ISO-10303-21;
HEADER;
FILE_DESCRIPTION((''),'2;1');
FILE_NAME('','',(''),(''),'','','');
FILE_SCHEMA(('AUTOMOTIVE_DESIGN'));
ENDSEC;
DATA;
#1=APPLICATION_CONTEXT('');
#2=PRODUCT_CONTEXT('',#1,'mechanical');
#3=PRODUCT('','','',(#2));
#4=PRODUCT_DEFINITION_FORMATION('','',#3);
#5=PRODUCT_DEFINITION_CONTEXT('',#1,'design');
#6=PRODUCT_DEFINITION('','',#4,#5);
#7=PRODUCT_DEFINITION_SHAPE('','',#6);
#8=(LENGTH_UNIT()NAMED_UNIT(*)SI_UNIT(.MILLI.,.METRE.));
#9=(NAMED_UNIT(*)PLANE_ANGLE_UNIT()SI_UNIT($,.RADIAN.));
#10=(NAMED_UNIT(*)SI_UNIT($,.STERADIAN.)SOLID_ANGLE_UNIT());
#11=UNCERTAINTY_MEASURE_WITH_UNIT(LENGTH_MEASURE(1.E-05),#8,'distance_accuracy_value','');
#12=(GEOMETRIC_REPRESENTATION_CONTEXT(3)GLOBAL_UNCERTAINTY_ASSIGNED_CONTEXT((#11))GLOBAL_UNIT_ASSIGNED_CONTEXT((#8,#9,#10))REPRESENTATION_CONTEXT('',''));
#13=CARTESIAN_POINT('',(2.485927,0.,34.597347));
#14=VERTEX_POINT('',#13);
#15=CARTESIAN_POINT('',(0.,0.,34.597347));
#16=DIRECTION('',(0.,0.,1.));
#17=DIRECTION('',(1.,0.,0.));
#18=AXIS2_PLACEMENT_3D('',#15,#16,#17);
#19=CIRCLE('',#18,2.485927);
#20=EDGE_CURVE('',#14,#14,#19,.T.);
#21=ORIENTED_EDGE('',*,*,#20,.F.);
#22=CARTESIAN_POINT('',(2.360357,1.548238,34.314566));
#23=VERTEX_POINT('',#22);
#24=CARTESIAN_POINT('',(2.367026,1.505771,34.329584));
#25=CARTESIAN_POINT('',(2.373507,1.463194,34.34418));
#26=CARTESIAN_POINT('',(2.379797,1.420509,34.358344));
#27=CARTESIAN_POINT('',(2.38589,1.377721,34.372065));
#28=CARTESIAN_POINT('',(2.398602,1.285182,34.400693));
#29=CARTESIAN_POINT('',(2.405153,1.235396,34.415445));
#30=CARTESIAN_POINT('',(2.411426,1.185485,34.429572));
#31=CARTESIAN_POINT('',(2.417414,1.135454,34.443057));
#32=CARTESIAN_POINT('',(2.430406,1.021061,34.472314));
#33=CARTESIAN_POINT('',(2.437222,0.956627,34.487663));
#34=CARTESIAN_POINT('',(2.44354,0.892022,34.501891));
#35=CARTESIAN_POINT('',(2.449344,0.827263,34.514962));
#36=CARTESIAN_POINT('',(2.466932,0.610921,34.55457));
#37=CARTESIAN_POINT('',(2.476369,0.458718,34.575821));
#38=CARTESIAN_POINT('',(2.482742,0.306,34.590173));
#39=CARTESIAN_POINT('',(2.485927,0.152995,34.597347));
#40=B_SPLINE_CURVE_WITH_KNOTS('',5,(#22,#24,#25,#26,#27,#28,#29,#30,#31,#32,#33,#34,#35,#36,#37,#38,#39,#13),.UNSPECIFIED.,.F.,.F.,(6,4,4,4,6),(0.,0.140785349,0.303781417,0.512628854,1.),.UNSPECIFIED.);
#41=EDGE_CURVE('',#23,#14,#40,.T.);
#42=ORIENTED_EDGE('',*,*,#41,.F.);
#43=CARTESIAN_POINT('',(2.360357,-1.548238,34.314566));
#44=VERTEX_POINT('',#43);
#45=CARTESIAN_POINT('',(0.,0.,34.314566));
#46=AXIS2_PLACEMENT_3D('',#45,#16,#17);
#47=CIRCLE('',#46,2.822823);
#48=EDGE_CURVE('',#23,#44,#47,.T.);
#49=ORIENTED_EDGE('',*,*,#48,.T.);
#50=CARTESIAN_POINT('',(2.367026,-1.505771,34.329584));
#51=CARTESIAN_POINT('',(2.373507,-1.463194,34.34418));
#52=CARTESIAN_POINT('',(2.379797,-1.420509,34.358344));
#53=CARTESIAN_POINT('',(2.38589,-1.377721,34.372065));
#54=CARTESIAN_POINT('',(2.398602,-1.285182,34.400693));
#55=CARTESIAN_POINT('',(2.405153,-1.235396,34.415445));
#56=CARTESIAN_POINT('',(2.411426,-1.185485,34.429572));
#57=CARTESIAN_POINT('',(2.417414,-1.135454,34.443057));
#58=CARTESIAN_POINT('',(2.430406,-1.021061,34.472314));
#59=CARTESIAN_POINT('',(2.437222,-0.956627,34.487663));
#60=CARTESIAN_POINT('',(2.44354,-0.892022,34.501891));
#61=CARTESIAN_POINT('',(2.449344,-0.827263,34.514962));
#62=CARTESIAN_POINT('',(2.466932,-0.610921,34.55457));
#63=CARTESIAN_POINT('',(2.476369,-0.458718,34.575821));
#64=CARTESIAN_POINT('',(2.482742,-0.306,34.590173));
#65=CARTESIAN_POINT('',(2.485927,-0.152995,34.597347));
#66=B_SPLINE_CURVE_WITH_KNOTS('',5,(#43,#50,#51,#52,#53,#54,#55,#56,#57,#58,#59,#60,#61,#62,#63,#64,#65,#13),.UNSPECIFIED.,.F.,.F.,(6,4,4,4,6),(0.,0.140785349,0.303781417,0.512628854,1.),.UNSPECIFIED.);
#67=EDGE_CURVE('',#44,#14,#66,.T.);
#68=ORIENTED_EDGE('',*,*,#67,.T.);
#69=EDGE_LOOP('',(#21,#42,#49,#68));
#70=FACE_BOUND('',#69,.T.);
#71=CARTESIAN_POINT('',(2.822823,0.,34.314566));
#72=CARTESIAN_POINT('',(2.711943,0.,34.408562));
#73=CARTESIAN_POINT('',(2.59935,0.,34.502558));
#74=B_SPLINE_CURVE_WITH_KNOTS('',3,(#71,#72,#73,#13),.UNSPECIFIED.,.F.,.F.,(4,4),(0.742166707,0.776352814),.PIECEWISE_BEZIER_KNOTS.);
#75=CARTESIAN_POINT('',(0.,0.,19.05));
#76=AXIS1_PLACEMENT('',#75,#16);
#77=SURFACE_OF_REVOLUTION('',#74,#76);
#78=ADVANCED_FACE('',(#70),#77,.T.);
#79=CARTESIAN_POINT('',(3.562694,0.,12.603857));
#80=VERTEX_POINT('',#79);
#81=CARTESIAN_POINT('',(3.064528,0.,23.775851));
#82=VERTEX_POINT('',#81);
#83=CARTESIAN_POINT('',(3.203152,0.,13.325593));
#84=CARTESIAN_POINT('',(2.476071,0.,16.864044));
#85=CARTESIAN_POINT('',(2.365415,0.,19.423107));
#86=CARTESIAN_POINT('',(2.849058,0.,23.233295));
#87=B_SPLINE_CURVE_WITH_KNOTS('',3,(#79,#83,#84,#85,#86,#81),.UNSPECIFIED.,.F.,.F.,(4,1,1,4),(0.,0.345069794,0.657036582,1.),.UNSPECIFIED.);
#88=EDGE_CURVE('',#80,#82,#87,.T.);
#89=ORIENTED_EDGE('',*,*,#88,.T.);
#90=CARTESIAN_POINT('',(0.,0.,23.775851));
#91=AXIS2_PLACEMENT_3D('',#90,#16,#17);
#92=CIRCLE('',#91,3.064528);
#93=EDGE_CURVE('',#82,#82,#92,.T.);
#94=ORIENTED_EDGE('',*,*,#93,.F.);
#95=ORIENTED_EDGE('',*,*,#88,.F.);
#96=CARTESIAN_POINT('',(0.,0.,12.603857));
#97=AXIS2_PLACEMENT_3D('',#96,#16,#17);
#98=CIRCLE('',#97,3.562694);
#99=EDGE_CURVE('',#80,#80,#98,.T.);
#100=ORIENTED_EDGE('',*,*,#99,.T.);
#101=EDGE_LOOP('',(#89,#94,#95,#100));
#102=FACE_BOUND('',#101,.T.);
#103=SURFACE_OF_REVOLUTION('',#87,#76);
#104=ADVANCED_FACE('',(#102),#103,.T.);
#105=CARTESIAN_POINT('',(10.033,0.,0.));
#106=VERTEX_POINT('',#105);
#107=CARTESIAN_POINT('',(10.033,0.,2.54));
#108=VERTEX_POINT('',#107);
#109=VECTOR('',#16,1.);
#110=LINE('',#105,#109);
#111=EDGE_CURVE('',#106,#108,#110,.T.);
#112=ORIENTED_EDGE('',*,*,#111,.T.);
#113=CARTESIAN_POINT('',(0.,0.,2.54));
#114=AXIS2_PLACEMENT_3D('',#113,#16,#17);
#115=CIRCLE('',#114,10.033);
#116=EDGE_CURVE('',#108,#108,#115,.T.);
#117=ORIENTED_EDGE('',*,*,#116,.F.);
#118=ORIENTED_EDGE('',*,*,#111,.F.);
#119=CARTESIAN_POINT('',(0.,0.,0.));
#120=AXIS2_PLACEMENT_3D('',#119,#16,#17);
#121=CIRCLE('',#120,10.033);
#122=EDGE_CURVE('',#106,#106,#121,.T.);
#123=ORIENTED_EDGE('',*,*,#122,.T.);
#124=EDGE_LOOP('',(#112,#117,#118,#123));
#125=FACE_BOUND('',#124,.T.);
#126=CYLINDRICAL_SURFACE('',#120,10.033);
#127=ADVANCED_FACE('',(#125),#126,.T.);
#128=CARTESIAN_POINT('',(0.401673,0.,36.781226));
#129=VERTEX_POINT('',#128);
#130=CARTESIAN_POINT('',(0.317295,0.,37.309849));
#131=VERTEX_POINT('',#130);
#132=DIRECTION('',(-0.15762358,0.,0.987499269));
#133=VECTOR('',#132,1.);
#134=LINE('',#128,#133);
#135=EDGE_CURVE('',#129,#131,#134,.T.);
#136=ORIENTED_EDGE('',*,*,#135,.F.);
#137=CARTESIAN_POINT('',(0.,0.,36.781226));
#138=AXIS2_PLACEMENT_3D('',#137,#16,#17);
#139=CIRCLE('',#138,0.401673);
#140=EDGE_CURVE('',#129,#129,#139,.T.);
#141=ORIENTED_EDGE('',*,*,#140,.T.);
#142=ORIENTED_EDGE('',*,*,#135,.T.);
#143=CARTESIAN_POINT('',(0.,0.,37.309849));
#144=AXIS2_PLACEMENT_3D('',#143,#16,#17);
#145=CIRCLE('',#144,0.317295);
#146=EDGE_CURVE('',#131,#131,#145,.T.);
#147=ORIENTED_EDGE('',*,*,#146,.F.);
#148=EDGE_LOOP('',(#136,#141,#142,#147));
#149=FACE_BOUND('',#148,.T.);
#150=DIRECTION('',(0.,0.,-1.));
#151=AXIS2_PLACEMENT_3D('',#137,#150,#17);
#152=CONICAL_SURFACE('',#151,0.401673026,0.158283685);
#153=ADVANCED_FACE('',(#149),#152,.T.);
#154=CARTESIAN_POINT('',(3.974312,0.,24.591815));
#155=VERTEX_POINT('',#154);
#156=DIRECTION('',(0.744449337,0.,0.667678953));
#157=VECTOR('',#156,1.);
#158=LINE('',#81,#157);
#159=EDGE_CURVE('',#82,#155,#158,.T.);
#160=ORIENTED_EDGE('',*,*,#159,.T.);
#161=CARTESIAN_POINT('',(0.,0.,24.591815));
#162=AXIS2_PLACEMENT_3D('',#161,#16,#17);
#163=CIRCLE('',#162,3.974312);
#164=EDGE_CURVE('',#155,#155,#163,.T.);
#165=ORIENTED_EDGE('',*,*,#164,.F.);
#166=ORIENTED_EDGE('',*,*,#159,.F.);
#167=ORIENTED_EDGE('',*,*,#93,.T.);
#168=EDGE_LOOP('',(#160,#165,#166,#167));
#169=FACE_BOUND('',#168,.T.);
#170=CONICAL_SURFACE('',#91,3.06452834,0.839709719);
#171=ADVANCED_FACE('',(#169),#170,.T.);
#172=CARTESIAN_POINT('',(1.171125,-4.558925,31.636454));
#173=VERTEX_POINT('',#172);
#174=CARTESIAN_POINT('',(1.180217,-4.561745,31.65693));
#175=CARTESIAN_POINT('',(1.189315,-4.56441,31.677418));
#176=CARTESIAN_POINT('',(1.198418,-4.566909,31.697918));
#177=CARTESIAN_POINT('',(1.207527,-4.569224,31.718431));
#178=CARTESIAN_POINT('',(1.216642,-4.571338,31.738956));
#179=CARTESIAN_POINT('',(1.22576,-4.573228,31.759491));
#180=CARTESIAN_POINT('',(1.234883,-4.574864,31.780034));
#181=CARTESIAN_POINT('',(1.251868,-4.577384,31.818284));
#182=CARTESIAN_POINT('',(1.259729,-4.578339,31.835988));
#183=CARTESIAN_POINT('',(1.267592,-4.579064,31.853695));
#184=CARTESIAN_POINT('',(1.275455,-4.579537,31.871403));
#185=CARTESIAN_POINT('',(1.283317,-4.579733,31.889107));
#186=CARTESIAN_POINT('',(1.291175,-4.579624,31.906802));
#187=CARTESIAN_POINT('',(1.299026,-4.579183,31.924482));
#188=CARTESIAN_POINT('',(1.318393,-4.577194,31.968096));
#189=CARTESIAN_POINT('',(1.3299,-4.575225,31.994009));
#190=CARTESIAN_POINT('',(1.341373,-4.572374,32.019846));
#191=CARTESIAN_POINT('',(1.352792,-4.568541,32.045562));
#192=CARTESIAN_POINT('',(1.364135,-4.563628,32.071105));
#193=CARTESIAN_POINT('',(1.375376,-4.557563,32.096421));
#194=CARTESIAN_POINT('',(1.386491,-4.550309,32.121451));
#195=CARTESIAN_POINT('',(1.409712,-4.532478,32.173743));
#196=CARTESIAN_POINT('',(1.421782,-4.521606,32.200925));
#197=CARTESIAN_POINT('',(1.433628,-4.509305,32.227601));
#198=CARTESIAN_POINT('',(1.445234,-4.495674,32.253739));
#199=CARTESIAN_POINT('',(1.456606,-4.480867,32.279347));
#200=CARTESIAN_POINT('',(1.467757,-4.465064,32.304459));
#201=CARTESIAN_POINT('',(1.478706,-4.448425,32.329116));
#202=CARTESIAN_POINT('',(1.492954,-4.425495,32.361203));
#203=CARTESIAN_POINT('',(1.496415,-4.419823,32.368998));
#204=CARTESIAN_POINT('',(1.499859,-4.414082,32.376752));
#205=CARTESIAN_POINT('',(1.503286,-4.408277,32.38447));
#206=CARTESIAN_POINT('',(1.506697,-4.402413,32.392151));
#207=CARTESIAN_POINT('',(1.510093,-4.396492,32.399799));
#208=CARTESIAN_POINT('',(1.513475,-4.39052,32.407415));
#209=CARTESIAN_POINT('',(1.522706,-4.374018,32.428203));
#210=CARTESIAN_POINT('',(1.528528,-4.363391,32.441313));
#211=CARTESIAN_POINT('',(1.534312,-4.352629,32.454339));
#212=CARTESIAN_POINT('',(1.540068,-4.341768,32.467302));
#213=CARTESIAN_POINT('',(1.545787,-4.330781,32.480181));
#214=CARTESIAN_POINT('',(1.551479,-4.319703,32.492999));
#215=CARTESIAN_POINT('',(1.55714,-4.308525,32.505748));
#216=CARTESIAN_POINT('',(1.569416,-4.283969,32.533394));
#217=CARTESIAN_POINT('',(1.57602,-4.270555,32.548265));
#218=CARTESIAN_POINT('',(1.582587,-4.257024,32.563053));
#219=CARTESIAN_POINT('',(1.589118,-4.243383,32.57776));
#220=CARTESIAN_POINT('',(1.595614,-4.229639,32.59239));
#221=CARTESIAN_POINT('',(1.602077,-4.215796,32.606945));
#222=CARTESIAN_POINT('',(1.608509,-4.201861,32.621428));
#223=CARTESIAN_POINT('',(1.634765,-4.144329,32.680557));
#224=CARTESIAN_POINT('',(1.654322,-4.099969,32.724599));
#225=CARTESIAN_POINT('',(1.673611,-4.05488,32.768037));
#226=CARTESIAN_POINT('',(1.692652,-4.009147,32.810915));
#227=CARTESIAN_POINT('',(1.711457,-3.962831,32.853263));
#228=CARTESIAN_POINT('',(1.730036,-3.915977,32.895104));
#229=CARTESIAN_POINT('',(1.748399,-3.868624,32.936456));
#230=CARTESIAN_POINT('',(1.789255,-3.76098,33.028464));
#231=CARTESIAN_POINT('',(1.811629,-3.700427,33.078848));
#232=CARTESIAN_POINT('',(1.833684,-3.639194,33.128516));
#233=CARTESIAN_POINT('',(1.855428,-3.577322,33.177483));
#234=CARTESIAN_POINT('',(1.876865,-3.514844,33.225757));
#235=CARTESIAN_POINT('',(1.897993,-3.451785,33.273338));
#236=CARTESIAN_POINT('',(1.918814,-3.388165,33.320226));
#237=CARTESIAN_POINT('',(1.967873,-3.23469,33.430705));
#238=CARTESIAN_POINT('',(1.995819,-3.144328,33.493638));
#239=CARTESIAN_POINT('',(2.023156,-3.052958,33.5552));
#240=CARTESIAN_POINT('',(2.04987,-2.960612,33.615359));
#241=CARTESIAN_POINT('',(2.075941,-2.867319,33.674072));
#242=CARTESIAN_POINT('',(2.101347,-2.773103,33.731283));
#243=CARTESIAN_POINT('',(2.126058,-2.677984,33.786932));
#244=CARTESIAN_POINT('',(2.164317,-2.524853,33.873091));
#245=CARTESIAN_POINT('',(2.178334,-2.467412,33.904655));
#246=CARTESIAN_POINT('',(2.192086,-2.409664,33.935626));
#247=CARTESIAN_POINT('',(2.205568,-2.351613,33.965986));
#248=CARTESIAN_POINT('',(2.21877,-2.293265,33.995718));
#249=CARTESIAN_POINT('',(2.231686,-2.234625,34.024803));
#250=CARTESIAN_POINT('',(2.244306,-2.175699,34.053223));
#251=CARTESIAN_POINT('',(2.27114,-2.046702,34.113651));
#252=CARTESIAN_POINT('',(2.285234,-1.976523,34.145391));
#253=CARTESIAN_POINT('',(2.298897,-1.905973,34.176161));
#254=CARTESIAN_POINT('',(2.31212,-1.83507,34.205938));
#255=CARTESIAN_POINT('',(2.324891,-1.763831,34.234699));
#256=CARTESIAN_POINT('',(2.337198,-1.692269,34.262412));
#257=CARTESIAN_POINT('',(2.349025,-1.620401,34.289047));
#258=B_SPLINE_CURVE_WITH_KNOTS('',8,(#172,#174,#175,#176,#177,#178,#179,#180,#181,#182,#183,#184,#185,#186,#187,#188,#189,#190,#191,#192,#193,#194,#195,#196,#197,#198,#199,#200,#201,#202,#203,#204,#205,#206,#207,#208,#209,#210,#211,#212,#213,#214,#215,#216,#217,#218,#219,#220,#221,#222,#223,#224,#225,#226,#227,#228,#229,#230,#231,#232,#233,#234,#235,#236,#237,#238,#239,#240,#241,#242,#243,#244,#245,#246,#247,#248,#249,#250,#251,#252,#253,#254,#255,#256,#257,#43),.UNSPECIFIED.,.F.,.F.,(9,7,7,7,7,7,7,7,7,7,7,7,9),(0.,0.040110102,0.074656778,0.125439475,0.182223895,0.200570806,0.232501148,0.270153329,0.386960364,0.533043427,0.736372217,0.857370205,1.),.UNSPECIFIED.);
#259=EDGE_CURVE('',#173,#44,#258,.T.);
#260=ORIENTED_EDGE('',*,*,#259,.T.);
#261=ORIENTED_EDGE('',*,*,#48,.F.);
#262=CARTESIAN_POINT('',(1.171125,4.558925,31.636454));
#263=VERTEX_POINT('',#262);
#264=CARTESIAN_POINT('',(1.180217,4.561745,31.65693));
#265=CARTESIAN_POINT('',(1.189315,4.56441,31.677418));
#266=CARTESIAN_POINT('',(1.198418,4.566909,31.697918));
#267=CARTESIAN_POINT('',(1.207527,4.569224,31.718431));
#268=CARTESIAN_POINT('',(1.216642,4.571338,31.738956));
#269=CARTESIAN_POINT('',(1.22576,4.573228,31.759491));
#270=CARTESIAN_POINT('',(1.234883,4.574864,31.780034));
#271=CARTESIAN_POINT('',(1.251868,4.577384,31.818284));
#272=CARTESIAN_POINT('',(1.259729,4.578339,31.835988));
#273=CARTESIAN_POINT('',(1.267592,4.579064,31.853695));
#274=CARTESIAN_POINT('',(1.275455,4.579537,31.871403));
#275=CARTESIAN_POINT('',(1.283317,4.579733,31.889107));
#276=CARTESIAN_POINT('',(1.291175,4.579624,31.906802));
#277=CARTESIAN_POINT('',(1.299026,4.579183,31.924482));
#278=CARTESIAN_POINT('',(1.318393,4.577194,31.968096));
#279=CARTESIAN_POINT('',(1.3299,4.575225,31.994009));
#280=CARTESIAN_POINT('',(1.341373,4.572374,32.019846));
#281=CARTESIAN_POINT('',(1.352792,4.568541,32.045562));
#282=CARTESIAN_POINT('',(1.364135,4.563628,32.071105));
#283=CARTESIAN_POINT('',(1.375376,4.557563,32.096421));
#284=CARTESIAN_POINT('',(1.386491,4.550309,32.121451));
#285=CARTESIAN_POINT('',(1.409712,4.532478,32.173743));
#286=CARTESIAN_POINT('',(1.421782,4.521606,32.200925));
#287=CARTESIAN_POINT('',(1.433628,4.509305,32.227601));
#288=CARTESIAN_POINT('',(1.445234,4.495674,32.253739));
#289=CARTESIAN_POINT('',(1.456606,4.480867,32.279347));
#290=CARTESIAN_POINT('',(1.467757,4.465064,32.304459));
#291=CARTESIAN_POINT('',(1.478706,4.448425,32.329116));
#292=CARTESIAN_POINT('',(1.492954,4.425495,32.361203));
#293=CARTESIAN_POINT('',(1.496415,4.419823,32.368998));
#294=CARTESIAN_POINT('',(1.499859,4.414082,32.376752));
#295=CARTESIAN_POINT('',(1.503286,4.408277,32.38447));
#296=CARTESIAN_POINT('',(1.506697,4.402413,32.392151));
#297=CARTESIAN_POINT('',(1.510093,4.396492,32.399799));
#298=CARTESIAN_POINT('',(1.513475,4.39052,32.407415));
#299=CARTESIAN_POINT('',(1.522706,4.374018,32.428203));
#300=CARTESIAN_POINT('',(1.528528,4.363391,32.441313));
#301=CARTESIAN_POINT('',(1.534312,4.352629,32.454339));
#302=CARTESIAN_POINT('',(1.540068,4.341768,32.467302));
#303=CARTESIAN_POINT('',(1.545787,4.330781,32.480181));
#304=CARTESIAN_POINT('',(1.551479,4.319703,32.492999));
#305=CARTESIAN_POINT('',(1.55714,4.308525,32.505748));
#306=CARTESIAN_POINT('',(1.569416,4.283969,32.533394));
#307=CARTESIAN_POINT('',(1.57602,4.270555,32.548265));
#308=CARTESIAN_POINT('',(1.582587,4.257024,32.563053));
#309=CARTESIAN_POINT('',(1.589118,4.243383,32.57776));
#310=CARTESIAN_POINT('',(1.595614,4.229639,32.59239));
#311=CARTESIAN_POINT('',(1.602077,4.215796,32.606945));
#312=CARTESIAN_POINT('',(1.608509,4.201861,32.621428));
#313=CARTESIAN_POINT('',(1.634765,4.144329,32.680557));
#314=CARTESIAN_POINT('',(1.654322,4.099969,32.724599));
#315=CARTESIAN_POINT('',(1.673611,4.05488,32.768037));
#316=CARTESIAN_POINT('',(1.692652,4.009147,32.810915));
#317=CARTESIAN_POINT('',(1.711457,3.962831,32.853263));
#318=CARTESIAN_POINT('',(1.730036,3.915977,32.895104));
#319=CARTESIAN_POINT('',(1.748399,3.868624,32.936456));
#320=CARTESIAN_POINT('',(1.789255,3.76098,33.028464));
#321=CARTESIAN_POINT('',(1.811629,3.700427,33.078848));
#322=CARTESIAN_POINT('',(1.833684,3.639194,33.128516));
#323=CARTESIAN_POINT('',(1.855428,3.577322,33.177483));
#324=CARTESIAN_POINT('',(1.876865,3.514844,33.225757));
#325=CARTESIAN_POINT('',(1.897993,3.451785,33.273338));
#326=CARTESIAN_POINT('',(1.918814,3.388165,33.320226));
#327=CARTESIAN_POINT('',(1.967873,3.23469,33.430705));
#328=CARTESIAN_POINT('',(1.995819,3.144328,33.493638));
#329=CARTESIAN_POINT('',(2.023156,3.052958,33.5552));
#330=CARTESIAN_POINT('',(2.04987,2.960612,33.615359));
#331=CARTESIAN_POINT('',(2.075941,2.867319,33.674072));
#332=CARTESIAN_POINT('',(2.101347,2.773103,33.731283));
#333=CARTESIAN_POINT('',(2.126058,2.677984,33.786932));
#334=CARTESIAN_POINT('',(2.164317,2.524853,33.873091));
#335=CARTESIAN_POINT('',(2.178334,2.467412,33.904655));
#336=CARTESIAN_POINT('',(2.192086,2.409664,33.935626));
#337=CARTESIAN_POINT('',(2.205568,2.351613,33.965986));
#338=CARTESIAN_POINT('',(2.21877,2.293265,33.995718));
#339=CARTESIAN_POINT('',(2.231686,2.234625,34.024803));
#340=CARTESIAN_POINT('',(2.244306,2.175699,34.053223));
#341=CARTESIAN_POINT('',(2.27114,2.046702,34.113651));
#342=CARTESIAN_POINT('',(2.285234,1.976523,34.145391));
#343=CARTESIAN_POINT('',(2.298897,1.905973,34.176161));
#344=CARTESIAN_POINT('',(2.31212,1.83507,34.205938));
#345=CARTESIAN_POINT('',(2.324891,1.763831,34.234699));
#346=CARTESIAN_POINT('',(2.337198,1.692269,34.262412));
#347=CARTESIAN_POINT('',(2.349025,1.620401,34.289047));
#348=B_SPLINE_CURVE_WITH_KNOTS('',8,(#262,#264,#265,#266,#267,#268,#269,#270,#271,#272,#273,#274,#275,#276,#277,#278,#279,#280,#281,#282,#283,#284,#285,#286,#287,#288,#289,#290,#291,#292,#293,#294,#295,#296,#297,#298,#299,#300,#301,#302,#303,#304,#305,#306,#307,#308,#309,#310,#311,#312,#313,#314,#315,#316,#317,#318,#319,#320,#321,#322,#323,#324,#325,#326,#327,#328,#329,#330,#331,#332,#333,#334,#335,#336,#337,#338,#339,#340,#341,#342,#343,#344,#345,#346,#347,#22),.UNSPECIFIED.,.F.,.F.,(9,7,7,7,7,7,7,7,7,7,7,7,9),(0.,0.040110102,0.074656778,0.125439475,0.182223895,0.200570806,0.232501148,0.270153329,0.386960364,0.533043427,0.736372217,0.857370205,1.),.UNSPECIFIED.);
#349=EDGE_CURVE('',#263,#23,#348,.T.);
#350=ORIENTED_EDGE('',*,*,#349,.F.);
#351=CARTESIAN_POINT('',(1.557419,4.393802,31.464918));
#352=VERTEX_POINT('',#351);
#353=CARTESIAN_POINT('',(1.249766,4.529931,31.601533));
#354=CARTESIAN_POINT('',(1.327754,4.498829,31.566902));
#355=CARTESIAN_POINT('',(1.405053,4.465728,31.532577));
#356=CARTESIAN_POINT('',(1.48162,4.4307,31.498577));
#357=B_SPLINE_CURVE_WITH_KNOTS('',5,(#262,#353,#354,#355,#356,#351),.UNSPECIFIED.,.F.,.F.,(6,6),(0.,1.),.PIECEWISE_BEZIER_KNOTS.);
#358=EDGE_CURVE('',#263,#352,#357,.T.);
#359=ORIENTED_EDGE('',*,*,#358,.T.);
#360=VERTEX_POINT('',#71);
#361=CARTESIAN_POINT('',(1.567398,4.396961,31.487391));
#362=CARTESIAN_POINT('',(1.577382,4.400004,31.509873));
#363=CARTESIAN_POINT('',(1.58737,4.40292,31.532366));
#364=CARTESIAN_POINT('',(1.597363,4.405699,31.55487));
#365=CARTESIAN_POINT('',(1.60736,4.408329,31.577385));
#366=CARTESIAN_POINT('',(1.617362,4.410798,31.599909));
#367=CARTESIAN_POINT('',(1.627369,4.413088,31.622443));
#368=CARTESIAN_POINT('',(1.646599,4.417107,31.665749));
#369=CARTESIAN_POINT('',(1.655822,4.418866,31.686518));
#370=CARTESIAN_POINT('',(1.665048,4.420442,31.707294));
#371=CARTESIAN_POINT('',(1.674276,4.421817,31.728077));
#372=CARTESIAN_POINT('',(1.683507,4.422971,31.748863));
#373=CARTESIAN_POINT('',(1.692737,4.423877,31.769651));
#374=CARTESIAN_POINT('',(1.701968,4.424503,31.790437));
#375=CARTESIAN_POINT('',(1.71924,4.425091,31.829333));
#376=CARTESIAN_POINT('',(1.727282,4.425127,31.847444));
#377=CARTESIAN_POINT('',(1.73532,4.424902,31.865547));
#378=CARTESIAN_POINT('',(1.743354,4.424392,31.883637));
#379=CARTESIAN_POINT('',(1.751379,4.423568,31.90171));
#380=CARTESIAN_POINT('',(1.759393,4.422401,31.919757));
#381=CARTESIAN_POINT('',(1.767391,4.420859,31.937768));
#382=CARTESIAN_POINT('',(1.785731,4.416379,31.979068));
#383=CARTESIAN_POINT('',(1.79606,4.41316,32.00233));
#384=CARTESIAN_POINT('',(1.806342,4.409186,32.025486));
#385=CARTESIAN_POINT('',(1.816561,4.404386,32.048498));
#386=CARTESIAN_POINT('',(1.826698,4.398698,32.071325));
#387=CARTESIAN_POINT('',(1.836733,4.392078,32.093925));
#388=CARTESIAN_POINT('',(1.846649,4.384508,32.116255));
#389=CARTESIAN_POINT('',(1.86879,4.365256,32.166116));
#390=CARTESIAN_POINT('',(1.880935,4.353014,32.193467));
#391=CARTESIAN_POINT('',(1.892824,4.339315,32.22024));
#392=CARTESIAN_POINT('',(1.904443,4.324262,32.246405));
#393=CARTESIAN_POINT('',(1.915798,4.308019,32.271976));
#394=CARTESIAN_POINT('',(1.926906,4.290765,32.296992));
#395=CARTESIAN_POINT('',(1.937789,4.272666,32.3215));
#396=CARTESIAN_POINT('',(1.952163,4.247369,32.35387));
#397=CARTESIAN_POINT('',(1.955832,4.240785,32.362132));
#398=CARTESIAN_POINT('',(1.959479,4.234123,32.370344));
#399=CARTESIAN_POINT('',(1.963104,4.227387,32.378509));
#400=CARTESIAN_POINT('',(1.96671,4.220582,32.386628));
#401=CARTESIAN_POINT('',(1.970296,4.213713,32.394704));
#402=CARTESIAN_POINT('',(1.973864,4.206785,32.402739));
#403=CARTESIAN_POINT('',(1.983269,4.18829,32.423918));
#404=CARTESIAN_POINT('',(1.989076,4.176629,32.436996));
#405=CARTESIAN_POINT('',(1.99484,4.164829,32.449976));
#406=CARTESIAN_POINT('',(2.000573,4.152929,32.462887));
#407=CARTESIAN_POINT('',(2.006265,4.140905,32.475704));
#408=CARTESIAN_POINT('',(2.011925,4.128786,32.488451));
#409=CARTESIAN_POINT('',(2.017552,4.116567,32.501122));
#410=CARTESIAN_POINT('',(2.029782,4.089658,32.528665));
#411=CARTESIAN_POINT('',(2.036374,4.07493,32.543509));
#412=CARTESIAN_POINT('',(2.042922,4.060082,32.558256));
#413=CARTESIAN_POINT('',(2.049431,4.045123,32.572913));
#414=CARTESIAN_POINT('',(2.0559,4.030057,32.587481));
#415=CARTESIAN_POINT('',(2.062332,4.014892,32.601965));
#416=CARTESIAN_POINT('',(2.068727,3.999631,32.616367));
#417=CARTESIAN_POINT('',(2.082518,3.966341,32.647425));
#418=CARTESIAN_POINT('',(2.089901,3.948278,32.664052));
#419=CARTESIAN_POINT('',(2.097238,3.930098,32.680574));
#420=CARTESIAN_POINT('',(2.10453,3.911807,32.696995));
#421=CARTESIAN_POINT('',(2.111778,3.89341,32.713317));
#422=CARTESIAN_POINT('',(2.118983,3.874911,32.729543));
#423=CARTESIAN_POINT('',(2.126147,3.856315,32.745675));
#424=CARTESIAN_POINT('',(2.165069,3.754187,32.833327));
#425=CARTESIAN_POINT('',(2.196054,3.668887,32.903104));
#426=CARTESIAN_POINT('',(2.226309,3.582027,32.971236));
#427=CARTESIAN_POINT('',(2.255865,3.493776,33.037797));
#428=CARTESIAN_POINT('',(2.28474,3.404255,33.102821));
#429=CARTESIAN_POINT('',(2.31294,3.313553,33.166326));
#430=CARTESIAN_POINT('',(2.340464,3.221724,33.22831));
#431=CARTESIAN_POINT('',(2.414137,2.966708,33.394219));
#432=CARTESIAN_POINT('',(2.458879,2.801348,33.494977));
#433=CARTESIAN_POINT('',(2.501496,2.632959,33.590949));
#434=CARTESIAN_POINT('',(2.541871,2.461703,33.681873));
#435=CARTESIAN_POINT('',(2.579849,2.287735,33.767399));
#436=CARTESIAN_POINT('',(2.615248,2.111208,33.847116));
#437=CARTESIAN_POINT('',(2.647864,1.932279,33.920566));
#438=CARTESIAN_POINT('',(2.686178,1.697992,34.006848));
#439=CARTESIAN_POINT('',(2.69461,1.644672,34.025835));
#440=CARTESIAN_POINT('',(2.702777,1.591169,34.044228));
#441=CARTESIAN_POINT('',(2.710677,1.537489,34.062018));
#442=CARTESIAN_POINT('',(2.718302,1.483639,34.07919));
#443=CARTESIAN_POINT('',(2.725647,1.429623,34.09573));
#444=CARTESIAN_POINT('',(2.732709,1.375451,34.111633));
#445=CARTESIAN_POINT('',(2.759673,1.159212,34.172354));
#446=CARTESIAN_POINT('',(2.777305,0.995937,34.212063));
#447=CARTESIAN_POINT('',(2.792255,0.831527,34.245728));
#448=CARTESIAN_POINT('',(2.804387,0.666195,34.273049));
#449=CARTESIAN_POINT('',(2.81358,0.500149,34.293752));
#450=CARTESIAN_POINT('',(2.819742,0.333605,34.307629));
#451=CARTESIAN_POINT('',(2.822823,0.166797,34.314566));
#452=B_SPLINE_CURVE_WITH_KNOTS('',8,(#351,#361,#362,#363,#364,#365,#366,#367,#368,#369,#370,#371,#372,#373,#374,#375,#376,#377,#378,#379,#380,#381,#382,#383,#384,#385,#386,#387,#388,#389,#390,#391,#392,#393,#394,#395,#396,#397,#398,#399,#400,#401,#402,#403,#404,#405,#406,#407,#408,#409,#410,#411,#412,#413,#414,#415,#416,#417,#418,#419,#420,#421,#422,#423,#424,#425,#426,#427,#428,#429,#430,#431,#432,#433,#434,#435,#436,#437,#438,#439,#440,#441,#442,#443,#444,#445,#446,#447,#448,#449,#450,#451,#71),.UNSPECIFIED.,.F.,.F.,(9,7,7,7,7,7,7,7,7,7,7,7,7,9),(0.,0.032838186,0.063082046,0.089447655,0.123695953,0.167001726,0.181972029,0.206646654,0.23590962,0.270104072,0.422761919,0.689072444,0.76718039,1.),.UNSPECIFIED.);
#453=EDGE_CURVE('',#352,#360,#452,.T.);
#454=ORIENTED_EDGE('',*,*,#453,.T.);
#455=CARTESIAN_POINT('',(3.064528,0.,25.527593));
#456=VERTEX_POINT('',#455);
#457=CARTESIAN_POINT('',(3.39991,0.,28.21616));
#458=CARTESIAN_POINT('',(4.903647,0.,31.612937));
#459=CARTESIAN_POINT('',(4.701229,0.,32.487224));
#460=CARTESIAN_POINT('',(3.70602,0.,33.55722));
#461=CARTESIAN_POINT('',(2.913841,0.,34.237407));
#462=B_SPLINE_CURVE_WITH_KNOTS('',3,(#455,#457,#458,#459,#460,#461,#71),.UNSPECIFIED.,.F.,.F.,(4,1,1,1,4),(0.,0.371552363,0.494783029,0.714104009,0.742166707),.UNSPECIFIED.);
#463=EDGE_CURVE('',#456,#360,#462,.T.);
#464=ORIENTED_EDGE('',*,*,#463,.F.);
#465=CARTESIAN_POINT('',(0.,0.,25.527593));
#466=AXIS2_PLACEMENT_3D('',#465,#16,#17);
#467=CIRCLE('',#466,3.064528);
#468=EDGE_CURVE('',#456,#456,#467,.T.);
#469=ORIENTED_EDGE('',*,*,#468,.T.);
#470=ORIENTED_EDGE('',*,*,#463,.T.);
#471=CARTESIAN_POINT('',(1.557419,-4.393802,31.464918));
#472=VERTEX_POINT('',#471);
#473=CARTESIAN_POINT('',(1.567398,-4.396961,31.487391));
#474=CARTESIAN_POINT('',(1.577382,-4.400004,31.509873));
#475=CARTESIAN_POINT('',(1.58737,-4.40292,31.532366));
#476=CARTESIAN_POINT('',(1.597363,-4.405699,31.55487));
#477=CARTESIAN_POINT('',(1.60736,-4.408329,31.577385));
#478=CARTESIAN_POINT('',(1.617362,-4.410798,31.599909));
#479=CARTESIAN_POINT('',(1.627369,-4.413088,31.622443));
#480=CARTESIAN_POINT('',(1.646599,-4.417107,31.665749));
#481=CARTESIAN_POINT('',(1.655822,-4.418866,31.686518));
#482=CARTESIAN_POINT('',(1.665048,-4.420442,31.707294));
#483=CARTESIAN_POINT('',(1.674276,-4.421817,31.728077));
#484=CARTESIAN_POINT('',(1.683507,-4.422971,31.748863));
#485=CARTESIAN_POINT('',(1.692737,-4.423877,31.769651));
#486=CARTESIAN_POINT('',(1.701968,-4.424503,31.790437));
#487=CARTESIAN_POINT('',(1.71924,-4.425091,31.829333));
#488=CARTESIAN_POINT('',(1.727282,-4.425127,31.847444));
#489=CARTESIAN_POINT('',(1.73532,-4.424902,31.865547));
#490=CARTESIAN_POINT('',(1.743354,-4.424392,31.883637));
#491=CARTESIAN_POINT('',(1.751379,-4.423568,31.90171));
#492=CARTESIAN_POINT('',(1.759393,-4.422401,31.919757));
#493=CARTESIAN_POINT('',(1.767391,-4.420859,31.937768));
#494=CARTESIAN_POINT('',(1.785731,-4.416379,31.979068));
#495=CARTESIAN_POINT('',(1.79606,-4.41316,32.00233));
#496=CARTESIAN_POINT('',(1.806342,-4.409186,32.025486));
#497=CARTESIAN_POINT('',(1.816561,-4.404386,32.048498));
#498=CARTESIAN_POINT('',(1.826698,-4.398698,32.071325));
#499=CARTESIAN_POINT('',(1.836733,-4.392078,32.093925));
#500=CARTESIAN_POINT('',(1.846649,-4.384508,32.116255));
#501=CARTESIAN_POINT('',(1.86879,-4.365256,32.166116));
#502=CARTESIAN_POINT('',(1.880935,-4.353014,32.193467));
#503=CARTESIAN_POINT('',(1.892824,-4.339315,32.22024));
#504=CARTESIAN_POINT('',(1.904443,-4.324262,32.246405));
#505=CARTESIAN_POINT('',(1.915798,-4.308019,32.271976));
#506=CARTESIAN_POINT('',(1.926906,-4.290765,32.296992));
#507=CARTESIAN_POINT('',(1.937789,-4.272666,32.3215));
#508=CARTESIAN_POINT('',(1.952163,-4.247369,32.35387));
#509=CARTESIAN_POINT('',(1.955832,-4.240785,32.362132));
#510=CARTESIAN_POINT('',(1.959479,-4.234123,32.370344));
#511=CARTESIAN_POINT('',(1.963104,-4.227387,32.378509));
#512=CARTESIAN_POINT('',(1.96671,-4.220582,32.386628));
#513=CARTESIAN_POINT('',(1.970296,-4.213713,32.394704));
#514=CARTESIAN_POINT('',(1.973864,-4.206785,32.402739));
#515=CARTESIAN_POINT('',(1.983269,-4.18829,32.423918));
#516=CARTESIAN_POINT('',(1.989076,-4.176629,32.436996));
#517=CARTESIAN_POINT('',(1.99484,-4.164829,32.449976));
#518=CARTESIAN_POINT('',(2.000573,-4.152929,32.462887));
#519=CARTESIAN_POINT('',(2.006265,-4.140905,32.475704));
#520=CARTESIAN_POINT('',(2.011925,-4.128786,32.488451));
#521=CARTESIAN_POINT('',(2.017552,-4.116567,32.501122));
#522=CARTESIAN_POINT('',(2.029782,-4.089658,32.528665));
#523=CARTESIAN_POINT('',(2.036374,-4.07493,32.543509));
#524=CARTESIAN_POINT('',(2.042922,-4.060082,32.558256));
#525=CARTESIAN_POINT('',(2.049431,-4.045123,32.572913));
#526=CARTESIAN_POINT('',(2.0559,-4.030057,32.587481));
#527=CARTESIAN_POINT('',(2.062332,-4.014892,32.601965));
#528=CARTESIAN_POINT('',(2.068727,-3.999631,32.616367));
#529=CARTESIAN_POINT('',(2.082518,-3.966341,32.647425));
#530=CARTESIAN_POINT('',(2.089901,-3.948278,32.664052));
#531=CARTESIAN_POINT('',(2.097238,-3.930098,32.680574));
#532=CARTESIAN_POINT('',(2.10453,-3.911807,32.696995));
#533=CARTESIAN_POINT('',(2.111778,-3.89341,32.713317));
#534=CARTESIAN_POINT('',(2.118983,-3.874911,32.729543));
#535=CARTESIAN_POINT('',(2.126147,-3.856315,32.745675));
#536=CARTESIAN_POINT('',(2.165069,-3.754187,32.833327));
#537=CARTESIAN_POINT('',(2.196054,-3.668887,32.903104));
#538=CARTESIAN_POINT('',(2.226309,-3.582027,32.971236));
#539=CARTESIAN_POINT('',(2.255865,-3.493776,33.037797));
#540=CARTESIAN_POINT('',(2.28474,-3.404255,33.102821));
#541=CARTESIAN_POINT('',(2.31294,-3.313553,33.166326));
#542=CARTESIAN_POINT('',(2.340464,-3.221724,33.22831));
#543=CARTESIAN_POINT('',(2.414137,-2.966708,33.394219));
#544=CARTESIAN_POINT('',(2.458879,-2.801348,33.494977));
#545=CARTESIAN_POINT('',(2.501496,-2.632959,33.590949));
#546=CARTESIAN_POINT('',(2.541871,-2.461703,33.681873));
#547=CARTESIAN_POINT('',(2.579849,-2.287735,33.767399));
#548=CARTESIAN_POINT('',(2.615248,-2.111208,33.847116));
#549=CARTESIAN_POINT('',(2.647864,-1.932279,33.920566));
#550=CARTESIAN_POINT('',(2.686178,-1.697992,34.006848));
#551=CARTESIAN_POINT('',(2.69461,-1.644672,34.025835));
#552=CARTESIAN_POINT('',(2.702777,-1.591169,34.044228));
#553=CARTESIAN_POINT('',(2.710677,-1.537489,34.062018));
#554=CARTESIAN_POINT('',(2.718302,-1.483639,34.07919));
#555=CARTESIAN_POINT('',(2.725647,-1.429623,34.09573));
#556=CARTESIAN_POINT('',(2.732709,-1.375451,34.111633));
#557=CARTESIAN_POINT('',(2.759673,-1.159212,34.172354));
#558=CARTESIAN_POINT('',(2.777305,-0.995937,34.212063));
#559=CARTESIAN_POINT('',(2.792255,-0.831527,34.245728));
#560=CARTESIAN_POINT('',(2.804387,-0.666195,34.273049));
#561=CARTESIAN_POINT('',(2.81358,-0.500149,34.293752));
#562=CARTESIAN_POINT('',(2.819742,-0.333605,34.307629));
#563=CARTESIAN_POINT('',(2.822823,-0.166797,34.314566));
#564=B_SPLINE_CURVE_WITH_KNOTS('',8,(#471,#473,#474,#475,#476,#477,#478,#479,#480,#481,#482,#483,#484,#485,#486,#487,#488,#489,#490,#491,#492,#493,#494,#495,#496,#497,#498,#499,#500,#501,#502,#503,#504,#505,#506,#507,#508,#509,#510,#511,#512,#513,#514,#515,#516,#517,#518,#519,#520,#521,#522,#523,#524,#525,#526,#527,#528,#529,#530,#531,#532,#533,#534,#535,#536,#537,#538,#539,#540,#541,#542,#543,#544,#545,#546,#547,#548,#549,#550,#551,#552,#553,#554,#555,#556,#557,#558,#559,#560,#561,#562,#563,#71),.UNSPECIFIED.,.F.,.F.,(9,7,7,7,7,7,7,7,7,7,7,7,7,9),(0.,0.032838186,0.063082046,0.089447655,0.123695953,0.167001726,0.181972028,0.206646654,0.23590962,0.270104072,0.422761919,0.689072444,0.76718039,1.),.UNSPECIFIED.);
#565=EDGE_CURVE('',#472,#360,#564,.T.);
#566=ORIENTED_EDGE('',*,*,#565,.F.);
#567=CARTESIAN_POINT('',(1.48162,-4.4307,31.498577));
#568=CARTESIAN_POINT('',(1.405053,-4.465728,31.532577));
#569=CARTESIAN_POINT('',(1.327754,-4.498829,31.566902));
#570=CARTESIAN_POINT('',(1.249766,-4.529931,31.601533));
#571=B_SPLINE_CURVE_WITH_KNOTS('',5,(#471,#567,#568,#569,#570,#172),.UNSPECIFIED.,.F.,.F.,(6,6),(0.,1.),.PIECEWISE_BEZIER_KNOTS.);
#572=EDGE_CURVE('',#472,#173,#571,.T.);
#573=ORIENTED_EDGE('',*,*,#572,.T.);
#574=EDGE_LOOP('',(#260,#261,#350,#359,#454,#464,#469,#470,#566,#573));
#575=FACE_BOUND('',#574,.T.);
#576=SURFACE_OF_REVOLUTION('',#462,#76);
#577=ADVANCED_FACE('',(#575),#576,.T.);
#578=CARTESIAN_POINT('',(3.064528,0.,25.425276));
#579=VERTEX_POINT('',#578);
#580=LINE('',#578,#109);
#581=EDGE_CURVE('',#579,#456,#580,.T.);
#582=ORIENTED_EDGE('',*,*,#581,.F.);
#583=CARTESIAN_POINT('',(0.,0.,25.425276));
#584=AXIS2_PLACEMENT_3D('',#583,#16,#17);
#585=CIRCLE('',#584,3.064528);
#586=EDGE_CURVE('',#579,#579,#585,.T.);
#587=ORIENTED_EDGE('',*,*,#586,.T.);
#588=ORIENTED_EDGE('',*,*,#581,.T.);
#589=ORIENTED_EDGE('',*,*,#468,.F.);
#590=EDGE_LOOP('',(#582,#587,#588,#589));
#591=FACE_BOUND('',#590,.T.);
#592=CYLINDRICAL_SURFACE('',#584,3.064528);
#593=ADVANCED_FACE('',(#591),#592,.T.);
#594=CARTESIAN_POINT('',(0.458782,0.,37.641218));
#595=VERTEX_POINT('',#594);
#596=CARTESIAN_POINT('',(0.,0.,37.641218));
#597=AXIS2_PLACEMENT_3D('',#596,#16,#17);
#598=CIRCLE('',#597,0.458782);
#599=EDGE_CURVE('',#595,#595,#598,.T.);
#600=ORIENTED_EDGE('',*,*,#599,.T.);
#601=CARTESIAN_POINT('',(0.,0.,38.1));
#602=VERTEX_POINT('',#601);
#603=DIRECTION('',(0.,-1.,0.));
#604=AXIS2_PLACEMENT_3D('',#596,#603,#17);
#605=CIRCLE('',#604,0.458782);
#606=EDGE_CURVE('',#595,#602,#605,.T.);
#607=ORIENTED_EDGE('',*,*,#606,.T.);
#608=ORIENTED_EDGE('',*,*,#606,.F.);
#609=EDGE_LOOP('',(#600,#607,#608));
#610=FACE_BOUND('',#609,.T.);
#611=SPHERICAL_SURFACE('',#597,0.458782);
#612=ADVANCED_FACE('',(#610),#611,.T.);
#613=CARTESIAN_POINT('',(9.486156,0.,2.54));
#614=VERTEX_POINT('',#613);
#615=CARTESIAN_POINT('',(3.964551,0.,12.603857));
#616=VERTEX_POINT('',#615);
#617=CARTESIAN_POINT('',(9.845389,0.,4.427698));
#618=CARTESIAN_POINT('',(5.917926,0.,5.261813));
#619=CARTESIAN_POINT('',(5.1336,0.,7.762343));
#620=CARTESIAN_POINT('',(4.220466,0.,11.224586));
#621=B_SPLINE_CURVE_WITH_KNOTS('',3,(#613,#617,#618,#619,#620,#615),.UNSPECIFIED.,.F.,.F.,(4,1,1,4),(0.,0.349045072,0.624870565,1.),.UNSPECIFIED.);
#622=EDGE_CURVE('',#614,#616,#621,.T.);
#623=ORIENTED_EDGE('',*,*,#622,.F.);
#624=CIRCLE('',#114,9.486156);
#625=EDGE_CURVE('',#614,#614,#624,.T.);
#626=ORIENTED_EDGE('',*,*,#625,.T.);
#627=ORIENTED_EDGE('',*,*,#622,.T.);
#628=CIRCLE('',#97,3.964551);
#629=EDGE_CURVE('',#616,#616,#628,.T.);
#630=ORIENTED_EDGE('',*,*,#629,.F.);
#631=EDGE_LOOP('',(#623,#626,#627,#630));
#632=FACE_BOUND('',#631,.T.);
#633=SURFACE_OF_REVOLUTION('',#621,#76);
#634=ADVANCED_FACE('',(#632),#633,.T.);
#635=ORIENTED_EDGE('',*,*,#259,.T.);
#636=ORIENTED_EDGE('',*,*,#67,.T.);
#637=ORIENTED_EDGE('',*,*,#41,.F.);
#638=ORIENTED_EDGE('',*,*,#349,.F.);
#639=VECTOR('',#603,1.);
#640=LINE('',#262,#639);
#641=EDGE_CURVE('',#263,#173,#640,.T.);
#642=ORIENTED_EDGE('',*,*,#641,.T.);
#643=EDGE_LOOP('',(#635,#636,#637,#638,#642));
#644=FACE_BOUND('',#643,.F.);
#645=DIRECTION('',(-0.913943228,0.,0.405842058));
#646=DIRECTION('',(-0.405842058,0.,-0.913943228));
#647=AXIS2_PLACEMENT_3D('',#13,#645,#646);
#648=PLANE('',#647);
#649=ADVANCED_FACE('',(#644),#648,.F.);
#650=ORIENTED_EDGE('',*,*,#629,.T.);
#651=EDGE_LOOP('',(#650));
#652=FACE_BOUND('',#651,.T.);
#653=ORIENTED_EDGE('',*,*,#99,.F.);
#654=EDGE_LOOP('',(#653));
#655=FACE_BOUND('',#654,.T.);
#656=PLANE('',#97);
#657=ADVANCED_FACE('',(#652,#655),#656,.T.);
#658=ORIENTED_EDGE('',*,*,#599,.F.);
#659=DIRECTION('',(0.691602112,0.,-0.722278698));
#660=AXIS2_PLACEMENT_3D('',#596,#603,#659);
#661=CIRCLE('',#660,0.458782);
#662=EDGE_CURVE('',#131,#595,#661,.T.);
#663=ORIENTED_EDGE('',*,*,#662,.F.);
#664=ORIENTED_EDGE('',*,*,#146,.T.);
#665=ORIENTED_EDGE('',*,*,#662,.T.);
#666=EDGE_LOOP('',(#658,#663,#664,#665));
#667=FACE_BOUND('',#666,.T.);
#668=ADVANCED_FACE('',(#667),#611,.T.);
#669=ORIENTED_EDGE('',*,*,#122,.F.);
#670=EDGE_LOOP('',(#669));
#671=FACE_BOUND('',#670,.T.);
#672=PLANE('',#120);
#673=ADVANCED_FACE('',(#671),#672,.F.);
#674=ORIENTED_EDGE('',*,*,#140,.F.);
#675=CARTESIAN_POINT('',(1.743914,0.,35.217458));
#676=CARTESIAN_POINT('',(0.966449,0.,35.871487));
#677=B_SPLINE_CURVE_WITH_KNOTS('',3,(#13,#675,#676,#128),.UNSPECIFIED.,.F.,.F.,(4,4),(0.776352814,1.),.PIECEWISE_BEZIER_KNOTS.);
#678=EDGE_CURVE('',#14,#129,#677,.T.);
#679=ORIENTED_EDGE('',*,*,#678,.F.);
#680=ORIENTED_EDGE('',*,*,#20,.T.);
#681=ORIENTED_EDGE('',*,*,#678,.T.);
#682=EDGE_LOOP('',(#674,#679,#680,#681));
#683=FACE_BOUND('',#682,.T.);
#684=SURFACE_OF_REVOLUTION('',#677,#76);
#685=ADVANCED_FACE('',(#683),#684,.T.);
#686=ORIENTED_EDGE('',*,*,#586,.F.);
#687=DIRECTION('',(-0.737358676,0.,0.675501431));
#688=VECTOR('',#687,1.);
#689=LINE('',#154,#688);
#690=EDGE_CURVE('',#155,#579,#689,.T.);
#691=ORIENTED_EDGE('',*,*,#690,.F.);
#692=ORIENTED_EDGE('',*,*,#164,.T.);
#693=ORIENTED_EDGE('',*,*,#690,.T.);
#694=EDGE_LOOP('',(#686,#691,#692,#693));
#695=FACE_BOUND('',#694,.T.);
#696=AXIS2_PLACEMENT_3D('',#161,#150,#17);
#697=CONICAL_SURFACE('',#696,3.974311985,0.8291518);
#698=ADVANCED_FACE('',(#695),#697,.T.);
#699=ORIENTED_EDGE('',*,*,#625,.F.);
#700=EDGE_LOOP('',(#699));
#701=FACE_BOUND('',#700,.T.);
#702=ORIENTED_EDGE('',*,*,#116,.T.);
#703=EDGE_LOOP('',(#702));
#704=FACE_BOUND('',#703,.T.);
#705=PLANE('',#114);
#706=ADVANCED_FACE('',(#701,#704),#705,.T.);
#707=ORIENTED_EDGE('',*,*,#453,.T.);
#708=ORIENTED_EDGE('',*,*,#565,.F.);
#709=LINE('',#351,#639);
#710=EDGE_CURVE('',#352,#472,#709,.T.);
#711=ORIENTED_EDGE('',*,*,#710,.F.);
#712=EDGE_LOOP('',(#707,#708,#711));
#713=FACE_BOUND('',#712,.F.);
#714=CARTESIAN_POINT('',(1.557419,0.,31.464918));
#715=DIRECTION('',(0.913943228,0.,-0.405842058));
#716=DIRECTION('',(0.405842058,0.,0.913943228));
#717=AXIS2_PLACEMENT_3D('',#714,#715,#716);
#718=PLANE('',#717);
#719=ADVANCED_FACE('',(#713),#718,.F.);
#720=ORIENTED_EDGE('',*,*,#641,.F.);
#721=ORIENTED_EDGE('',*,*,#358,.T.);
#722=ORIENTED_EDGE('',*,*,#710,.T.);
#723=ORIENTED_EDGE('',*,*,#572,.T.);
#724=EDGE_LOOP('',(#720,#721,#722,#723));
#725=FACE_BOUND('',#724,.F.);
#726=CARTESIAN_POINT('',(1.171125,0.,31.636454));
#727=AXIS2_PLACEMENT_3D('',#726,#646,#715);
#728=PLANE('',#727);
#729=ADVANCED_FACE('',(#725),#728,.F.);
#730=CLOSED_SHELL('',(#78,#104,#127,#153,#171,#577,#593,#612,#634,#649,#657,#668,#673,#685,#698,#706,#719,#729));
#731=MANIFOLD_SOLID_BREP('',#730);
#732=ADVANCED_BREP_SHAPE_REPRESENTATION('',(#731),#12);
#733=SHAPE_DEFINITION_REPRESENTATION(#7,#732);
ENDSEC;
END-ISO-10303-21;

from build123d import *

# Parameters (mm, degrees)
F2_DEPTH = 25.4
F3_DEPTH = 25.4


with BuildPart() as f1:
    # F0 (on Front) → F1 (revolve)
    with BuildSketch(Plane.XZ):
        Polygon((0, 2.54), (0, 0), (10.033, 0), (10.033, 2.54), (9.4861555845, 2.54), align=None)
        with BuildLine():
            Line((0, 37.1824353933), (0, 2.54))
            Line((0, 2.54), (9.4861555845, 2.54))
            add(Edge.make_bspline(
                [(9.4861555845, 2.54), (9.8453891211, 4.4276976498), (5.9179255985, 5.2618132952), (5.1336004733, 7.762343265), (4.2204660289, 11.2245860249), (3.9645507932, 12.6038566232)],
                knots=[0, 0, 0, 0, 0.3490450724, 0.624870565, 1, 1, 1, 1], degree=3))
            Line((3.9645507932, 12.6038566232), (3.5626941826, 12.6038566232))
            add(Edge.make_bspline(
                [(3.5626941826, 12.6038566232), (3.2031516008, 13.3255932383), (2.4760706241, 16.8640443681), (2.3654149475, 19.4231070959), (2.8490578857, 23.2332946699), (3.0645283405, 23.775851354)],
                knots=[0, 0, 0, 0, 0.3450697936, 0.657036582, 1, 1, 1, 1], degree=3))
            Line((3.0645283405, 23.775851354), (3.9743119851, 24.5918147266))
            Line((3.9743119851, 24.5918147266), (3.0645283405, 25.425276343))
            Line((3.0645283405, 25.425276343), (3.0645283405, 25.5275927484))
            add(Edge.make_bspline(
                [(3.0645283405, 25.5275927484), (3.3999102429, 28.2161597708), (4.9036466919, 31.6129373063), (4.7012289547, 32.4872237799), (3.7060201327, 33.5572204547), (2.9138410483, 34.2374070059), (2.8228225087, 34.3145662132)],
                knots=[0, 0, 0, 0, 0.3715523633, 0.4947830291, 0.7141040095, 0.7421667067, 0.7421667067, 0.7421667067, 0.7421667067], degree=3))
            Line((2.8228225087, 34.3145662132), (1.5574188822, 31.4649180467))
            Line((1.5574188822, 31.4649180467), (1.1711250779, 31.6364541636))
            Line((1.1711250779, 31.6364541636), (2.4859273687, 34.597346529))
            add(Edge.make_bspline(
                [(2.4859273687, 34.597346529), (1.7439141747, 35.2174579169), (0.9664492324, 35.8714870687), (0.401673026, 36.7812261591)],
                knots=[0.7763528136, 0.7763528136, 0.7763528136, 0.7763528136, 1, 1, 1, 1], degree=3))
            Line((0.401673026, 36.7812261591), (0.3172948102, 37.3098490119))
            ThreePointArc((0.3172948102, 37.3098490119), (0.1709606876, 37.2154787565), (0, 37.1824353933))
        make_face()
        with BuildLine():
            Line((0, 38.1), (0, 37.1824353933))
            ThreePointArc((0, 37.1824353933), (0.1709606876, 37.2154787565), (0.3172948102, 37.3098490119))
            ThreePointArc((0.3172948102, 37.3098490119), (0.4219303531, 37.4610622666), (0.4587823033, 37.6412176967))
            ThreePointArc((0.4587823033, 37.6412176967), (0.3244080778, 37.9656257744), (0, 38.1))
        make_face()
        with BuildLine():
            add(Edge.make_bspline(
                [(2.8228225087, 34.3145662132), (2.7119433048, 34.4085619146), (2.5993495081, 34.5025579715), (2.4859273687, 34.597346529)],
                knots=[0.7421667067, 0.7421667067, 0.7421667067, 0.7421667067, 0.7763528136, 0.7763528136, 0.7763528136, 0.7763528136], degree=3))
            Line((2.4859273687, 34.597346529), (1.1711250779, 31.6364541636))
            Line((1.1711250779, 31.6364541636), (1.5574188822, 31.4649180467))
            Line((1.5574188822, 31.4649180467), (2.8228225087, 34.3145662132))
        make_face()
    revolve(axis=Axis((0, 0, 19.05), (0, 0, 1)))

    # F0 (on Front) → F2 (cut)
    with BuildSketch(Plane.XZ):
        with BuildLine():
            Line((3.5590358397, 37.0139522053), (2.4859273687, 34.597346529))
            add(Edge.make_bspline(
                [(2.8228225087, 34.3145662132), (2.7119433048, 34.4085619146), (2.5993495081, 34.5025579715), (2.4859273687, 34.597346529)],
                knots=[0.7421667067, 0.7421667067, 0.7421667067, 0.7421667067, 0.7763528136, 0.7763528136, 0.7763528136, 0.7763528136], degree=3))
            Line((2.8228225087, 34.3145662132), (3.9516790885, 36.8567148328))
            Line((3.9516790885, 36.8567148328), (3.5590358397, 37.0139522053))
        make_face()
        with BuildLine():
            add(Edge.make_bspline(
                [(2.8228225087, 34.3145662132), (2.7119433048, 34.4085619146), (2.5993495081, 34.5025579715), (2.4859273687, 34.597346529)],
                knots=[0.7421667067, 0.7421667067, 0.7421667067, 0.7421667067, 0.7763528136, 0.7763528136, 0.7763528136, 0.7763528136], degree=3))
            Line((2.4859273687, 34.597346529), (1.1711250779, 31.6364541636))
            Line((1.1711250779, 31.6364541636), (1.5574188822, 31.4649180467))
            Line((1.5574188822, 31.4649180467), (2.8228225087, 34.3145662132))
        make_face()
    extrude(amount=-F2_DEPTH, mode=Mode.SUBTRACT)

    # F3 (cut): a face of the model
    f3_faces = [f1.faces().sort_by_distance(p)[0] for p in [
        (2.0082250792, 0, 33.0041671759),
    ]]
    extrude(f3_faces, amount=-F3_DEPTH, mode=Mode.SUBTRACT)


solid = f1.part
